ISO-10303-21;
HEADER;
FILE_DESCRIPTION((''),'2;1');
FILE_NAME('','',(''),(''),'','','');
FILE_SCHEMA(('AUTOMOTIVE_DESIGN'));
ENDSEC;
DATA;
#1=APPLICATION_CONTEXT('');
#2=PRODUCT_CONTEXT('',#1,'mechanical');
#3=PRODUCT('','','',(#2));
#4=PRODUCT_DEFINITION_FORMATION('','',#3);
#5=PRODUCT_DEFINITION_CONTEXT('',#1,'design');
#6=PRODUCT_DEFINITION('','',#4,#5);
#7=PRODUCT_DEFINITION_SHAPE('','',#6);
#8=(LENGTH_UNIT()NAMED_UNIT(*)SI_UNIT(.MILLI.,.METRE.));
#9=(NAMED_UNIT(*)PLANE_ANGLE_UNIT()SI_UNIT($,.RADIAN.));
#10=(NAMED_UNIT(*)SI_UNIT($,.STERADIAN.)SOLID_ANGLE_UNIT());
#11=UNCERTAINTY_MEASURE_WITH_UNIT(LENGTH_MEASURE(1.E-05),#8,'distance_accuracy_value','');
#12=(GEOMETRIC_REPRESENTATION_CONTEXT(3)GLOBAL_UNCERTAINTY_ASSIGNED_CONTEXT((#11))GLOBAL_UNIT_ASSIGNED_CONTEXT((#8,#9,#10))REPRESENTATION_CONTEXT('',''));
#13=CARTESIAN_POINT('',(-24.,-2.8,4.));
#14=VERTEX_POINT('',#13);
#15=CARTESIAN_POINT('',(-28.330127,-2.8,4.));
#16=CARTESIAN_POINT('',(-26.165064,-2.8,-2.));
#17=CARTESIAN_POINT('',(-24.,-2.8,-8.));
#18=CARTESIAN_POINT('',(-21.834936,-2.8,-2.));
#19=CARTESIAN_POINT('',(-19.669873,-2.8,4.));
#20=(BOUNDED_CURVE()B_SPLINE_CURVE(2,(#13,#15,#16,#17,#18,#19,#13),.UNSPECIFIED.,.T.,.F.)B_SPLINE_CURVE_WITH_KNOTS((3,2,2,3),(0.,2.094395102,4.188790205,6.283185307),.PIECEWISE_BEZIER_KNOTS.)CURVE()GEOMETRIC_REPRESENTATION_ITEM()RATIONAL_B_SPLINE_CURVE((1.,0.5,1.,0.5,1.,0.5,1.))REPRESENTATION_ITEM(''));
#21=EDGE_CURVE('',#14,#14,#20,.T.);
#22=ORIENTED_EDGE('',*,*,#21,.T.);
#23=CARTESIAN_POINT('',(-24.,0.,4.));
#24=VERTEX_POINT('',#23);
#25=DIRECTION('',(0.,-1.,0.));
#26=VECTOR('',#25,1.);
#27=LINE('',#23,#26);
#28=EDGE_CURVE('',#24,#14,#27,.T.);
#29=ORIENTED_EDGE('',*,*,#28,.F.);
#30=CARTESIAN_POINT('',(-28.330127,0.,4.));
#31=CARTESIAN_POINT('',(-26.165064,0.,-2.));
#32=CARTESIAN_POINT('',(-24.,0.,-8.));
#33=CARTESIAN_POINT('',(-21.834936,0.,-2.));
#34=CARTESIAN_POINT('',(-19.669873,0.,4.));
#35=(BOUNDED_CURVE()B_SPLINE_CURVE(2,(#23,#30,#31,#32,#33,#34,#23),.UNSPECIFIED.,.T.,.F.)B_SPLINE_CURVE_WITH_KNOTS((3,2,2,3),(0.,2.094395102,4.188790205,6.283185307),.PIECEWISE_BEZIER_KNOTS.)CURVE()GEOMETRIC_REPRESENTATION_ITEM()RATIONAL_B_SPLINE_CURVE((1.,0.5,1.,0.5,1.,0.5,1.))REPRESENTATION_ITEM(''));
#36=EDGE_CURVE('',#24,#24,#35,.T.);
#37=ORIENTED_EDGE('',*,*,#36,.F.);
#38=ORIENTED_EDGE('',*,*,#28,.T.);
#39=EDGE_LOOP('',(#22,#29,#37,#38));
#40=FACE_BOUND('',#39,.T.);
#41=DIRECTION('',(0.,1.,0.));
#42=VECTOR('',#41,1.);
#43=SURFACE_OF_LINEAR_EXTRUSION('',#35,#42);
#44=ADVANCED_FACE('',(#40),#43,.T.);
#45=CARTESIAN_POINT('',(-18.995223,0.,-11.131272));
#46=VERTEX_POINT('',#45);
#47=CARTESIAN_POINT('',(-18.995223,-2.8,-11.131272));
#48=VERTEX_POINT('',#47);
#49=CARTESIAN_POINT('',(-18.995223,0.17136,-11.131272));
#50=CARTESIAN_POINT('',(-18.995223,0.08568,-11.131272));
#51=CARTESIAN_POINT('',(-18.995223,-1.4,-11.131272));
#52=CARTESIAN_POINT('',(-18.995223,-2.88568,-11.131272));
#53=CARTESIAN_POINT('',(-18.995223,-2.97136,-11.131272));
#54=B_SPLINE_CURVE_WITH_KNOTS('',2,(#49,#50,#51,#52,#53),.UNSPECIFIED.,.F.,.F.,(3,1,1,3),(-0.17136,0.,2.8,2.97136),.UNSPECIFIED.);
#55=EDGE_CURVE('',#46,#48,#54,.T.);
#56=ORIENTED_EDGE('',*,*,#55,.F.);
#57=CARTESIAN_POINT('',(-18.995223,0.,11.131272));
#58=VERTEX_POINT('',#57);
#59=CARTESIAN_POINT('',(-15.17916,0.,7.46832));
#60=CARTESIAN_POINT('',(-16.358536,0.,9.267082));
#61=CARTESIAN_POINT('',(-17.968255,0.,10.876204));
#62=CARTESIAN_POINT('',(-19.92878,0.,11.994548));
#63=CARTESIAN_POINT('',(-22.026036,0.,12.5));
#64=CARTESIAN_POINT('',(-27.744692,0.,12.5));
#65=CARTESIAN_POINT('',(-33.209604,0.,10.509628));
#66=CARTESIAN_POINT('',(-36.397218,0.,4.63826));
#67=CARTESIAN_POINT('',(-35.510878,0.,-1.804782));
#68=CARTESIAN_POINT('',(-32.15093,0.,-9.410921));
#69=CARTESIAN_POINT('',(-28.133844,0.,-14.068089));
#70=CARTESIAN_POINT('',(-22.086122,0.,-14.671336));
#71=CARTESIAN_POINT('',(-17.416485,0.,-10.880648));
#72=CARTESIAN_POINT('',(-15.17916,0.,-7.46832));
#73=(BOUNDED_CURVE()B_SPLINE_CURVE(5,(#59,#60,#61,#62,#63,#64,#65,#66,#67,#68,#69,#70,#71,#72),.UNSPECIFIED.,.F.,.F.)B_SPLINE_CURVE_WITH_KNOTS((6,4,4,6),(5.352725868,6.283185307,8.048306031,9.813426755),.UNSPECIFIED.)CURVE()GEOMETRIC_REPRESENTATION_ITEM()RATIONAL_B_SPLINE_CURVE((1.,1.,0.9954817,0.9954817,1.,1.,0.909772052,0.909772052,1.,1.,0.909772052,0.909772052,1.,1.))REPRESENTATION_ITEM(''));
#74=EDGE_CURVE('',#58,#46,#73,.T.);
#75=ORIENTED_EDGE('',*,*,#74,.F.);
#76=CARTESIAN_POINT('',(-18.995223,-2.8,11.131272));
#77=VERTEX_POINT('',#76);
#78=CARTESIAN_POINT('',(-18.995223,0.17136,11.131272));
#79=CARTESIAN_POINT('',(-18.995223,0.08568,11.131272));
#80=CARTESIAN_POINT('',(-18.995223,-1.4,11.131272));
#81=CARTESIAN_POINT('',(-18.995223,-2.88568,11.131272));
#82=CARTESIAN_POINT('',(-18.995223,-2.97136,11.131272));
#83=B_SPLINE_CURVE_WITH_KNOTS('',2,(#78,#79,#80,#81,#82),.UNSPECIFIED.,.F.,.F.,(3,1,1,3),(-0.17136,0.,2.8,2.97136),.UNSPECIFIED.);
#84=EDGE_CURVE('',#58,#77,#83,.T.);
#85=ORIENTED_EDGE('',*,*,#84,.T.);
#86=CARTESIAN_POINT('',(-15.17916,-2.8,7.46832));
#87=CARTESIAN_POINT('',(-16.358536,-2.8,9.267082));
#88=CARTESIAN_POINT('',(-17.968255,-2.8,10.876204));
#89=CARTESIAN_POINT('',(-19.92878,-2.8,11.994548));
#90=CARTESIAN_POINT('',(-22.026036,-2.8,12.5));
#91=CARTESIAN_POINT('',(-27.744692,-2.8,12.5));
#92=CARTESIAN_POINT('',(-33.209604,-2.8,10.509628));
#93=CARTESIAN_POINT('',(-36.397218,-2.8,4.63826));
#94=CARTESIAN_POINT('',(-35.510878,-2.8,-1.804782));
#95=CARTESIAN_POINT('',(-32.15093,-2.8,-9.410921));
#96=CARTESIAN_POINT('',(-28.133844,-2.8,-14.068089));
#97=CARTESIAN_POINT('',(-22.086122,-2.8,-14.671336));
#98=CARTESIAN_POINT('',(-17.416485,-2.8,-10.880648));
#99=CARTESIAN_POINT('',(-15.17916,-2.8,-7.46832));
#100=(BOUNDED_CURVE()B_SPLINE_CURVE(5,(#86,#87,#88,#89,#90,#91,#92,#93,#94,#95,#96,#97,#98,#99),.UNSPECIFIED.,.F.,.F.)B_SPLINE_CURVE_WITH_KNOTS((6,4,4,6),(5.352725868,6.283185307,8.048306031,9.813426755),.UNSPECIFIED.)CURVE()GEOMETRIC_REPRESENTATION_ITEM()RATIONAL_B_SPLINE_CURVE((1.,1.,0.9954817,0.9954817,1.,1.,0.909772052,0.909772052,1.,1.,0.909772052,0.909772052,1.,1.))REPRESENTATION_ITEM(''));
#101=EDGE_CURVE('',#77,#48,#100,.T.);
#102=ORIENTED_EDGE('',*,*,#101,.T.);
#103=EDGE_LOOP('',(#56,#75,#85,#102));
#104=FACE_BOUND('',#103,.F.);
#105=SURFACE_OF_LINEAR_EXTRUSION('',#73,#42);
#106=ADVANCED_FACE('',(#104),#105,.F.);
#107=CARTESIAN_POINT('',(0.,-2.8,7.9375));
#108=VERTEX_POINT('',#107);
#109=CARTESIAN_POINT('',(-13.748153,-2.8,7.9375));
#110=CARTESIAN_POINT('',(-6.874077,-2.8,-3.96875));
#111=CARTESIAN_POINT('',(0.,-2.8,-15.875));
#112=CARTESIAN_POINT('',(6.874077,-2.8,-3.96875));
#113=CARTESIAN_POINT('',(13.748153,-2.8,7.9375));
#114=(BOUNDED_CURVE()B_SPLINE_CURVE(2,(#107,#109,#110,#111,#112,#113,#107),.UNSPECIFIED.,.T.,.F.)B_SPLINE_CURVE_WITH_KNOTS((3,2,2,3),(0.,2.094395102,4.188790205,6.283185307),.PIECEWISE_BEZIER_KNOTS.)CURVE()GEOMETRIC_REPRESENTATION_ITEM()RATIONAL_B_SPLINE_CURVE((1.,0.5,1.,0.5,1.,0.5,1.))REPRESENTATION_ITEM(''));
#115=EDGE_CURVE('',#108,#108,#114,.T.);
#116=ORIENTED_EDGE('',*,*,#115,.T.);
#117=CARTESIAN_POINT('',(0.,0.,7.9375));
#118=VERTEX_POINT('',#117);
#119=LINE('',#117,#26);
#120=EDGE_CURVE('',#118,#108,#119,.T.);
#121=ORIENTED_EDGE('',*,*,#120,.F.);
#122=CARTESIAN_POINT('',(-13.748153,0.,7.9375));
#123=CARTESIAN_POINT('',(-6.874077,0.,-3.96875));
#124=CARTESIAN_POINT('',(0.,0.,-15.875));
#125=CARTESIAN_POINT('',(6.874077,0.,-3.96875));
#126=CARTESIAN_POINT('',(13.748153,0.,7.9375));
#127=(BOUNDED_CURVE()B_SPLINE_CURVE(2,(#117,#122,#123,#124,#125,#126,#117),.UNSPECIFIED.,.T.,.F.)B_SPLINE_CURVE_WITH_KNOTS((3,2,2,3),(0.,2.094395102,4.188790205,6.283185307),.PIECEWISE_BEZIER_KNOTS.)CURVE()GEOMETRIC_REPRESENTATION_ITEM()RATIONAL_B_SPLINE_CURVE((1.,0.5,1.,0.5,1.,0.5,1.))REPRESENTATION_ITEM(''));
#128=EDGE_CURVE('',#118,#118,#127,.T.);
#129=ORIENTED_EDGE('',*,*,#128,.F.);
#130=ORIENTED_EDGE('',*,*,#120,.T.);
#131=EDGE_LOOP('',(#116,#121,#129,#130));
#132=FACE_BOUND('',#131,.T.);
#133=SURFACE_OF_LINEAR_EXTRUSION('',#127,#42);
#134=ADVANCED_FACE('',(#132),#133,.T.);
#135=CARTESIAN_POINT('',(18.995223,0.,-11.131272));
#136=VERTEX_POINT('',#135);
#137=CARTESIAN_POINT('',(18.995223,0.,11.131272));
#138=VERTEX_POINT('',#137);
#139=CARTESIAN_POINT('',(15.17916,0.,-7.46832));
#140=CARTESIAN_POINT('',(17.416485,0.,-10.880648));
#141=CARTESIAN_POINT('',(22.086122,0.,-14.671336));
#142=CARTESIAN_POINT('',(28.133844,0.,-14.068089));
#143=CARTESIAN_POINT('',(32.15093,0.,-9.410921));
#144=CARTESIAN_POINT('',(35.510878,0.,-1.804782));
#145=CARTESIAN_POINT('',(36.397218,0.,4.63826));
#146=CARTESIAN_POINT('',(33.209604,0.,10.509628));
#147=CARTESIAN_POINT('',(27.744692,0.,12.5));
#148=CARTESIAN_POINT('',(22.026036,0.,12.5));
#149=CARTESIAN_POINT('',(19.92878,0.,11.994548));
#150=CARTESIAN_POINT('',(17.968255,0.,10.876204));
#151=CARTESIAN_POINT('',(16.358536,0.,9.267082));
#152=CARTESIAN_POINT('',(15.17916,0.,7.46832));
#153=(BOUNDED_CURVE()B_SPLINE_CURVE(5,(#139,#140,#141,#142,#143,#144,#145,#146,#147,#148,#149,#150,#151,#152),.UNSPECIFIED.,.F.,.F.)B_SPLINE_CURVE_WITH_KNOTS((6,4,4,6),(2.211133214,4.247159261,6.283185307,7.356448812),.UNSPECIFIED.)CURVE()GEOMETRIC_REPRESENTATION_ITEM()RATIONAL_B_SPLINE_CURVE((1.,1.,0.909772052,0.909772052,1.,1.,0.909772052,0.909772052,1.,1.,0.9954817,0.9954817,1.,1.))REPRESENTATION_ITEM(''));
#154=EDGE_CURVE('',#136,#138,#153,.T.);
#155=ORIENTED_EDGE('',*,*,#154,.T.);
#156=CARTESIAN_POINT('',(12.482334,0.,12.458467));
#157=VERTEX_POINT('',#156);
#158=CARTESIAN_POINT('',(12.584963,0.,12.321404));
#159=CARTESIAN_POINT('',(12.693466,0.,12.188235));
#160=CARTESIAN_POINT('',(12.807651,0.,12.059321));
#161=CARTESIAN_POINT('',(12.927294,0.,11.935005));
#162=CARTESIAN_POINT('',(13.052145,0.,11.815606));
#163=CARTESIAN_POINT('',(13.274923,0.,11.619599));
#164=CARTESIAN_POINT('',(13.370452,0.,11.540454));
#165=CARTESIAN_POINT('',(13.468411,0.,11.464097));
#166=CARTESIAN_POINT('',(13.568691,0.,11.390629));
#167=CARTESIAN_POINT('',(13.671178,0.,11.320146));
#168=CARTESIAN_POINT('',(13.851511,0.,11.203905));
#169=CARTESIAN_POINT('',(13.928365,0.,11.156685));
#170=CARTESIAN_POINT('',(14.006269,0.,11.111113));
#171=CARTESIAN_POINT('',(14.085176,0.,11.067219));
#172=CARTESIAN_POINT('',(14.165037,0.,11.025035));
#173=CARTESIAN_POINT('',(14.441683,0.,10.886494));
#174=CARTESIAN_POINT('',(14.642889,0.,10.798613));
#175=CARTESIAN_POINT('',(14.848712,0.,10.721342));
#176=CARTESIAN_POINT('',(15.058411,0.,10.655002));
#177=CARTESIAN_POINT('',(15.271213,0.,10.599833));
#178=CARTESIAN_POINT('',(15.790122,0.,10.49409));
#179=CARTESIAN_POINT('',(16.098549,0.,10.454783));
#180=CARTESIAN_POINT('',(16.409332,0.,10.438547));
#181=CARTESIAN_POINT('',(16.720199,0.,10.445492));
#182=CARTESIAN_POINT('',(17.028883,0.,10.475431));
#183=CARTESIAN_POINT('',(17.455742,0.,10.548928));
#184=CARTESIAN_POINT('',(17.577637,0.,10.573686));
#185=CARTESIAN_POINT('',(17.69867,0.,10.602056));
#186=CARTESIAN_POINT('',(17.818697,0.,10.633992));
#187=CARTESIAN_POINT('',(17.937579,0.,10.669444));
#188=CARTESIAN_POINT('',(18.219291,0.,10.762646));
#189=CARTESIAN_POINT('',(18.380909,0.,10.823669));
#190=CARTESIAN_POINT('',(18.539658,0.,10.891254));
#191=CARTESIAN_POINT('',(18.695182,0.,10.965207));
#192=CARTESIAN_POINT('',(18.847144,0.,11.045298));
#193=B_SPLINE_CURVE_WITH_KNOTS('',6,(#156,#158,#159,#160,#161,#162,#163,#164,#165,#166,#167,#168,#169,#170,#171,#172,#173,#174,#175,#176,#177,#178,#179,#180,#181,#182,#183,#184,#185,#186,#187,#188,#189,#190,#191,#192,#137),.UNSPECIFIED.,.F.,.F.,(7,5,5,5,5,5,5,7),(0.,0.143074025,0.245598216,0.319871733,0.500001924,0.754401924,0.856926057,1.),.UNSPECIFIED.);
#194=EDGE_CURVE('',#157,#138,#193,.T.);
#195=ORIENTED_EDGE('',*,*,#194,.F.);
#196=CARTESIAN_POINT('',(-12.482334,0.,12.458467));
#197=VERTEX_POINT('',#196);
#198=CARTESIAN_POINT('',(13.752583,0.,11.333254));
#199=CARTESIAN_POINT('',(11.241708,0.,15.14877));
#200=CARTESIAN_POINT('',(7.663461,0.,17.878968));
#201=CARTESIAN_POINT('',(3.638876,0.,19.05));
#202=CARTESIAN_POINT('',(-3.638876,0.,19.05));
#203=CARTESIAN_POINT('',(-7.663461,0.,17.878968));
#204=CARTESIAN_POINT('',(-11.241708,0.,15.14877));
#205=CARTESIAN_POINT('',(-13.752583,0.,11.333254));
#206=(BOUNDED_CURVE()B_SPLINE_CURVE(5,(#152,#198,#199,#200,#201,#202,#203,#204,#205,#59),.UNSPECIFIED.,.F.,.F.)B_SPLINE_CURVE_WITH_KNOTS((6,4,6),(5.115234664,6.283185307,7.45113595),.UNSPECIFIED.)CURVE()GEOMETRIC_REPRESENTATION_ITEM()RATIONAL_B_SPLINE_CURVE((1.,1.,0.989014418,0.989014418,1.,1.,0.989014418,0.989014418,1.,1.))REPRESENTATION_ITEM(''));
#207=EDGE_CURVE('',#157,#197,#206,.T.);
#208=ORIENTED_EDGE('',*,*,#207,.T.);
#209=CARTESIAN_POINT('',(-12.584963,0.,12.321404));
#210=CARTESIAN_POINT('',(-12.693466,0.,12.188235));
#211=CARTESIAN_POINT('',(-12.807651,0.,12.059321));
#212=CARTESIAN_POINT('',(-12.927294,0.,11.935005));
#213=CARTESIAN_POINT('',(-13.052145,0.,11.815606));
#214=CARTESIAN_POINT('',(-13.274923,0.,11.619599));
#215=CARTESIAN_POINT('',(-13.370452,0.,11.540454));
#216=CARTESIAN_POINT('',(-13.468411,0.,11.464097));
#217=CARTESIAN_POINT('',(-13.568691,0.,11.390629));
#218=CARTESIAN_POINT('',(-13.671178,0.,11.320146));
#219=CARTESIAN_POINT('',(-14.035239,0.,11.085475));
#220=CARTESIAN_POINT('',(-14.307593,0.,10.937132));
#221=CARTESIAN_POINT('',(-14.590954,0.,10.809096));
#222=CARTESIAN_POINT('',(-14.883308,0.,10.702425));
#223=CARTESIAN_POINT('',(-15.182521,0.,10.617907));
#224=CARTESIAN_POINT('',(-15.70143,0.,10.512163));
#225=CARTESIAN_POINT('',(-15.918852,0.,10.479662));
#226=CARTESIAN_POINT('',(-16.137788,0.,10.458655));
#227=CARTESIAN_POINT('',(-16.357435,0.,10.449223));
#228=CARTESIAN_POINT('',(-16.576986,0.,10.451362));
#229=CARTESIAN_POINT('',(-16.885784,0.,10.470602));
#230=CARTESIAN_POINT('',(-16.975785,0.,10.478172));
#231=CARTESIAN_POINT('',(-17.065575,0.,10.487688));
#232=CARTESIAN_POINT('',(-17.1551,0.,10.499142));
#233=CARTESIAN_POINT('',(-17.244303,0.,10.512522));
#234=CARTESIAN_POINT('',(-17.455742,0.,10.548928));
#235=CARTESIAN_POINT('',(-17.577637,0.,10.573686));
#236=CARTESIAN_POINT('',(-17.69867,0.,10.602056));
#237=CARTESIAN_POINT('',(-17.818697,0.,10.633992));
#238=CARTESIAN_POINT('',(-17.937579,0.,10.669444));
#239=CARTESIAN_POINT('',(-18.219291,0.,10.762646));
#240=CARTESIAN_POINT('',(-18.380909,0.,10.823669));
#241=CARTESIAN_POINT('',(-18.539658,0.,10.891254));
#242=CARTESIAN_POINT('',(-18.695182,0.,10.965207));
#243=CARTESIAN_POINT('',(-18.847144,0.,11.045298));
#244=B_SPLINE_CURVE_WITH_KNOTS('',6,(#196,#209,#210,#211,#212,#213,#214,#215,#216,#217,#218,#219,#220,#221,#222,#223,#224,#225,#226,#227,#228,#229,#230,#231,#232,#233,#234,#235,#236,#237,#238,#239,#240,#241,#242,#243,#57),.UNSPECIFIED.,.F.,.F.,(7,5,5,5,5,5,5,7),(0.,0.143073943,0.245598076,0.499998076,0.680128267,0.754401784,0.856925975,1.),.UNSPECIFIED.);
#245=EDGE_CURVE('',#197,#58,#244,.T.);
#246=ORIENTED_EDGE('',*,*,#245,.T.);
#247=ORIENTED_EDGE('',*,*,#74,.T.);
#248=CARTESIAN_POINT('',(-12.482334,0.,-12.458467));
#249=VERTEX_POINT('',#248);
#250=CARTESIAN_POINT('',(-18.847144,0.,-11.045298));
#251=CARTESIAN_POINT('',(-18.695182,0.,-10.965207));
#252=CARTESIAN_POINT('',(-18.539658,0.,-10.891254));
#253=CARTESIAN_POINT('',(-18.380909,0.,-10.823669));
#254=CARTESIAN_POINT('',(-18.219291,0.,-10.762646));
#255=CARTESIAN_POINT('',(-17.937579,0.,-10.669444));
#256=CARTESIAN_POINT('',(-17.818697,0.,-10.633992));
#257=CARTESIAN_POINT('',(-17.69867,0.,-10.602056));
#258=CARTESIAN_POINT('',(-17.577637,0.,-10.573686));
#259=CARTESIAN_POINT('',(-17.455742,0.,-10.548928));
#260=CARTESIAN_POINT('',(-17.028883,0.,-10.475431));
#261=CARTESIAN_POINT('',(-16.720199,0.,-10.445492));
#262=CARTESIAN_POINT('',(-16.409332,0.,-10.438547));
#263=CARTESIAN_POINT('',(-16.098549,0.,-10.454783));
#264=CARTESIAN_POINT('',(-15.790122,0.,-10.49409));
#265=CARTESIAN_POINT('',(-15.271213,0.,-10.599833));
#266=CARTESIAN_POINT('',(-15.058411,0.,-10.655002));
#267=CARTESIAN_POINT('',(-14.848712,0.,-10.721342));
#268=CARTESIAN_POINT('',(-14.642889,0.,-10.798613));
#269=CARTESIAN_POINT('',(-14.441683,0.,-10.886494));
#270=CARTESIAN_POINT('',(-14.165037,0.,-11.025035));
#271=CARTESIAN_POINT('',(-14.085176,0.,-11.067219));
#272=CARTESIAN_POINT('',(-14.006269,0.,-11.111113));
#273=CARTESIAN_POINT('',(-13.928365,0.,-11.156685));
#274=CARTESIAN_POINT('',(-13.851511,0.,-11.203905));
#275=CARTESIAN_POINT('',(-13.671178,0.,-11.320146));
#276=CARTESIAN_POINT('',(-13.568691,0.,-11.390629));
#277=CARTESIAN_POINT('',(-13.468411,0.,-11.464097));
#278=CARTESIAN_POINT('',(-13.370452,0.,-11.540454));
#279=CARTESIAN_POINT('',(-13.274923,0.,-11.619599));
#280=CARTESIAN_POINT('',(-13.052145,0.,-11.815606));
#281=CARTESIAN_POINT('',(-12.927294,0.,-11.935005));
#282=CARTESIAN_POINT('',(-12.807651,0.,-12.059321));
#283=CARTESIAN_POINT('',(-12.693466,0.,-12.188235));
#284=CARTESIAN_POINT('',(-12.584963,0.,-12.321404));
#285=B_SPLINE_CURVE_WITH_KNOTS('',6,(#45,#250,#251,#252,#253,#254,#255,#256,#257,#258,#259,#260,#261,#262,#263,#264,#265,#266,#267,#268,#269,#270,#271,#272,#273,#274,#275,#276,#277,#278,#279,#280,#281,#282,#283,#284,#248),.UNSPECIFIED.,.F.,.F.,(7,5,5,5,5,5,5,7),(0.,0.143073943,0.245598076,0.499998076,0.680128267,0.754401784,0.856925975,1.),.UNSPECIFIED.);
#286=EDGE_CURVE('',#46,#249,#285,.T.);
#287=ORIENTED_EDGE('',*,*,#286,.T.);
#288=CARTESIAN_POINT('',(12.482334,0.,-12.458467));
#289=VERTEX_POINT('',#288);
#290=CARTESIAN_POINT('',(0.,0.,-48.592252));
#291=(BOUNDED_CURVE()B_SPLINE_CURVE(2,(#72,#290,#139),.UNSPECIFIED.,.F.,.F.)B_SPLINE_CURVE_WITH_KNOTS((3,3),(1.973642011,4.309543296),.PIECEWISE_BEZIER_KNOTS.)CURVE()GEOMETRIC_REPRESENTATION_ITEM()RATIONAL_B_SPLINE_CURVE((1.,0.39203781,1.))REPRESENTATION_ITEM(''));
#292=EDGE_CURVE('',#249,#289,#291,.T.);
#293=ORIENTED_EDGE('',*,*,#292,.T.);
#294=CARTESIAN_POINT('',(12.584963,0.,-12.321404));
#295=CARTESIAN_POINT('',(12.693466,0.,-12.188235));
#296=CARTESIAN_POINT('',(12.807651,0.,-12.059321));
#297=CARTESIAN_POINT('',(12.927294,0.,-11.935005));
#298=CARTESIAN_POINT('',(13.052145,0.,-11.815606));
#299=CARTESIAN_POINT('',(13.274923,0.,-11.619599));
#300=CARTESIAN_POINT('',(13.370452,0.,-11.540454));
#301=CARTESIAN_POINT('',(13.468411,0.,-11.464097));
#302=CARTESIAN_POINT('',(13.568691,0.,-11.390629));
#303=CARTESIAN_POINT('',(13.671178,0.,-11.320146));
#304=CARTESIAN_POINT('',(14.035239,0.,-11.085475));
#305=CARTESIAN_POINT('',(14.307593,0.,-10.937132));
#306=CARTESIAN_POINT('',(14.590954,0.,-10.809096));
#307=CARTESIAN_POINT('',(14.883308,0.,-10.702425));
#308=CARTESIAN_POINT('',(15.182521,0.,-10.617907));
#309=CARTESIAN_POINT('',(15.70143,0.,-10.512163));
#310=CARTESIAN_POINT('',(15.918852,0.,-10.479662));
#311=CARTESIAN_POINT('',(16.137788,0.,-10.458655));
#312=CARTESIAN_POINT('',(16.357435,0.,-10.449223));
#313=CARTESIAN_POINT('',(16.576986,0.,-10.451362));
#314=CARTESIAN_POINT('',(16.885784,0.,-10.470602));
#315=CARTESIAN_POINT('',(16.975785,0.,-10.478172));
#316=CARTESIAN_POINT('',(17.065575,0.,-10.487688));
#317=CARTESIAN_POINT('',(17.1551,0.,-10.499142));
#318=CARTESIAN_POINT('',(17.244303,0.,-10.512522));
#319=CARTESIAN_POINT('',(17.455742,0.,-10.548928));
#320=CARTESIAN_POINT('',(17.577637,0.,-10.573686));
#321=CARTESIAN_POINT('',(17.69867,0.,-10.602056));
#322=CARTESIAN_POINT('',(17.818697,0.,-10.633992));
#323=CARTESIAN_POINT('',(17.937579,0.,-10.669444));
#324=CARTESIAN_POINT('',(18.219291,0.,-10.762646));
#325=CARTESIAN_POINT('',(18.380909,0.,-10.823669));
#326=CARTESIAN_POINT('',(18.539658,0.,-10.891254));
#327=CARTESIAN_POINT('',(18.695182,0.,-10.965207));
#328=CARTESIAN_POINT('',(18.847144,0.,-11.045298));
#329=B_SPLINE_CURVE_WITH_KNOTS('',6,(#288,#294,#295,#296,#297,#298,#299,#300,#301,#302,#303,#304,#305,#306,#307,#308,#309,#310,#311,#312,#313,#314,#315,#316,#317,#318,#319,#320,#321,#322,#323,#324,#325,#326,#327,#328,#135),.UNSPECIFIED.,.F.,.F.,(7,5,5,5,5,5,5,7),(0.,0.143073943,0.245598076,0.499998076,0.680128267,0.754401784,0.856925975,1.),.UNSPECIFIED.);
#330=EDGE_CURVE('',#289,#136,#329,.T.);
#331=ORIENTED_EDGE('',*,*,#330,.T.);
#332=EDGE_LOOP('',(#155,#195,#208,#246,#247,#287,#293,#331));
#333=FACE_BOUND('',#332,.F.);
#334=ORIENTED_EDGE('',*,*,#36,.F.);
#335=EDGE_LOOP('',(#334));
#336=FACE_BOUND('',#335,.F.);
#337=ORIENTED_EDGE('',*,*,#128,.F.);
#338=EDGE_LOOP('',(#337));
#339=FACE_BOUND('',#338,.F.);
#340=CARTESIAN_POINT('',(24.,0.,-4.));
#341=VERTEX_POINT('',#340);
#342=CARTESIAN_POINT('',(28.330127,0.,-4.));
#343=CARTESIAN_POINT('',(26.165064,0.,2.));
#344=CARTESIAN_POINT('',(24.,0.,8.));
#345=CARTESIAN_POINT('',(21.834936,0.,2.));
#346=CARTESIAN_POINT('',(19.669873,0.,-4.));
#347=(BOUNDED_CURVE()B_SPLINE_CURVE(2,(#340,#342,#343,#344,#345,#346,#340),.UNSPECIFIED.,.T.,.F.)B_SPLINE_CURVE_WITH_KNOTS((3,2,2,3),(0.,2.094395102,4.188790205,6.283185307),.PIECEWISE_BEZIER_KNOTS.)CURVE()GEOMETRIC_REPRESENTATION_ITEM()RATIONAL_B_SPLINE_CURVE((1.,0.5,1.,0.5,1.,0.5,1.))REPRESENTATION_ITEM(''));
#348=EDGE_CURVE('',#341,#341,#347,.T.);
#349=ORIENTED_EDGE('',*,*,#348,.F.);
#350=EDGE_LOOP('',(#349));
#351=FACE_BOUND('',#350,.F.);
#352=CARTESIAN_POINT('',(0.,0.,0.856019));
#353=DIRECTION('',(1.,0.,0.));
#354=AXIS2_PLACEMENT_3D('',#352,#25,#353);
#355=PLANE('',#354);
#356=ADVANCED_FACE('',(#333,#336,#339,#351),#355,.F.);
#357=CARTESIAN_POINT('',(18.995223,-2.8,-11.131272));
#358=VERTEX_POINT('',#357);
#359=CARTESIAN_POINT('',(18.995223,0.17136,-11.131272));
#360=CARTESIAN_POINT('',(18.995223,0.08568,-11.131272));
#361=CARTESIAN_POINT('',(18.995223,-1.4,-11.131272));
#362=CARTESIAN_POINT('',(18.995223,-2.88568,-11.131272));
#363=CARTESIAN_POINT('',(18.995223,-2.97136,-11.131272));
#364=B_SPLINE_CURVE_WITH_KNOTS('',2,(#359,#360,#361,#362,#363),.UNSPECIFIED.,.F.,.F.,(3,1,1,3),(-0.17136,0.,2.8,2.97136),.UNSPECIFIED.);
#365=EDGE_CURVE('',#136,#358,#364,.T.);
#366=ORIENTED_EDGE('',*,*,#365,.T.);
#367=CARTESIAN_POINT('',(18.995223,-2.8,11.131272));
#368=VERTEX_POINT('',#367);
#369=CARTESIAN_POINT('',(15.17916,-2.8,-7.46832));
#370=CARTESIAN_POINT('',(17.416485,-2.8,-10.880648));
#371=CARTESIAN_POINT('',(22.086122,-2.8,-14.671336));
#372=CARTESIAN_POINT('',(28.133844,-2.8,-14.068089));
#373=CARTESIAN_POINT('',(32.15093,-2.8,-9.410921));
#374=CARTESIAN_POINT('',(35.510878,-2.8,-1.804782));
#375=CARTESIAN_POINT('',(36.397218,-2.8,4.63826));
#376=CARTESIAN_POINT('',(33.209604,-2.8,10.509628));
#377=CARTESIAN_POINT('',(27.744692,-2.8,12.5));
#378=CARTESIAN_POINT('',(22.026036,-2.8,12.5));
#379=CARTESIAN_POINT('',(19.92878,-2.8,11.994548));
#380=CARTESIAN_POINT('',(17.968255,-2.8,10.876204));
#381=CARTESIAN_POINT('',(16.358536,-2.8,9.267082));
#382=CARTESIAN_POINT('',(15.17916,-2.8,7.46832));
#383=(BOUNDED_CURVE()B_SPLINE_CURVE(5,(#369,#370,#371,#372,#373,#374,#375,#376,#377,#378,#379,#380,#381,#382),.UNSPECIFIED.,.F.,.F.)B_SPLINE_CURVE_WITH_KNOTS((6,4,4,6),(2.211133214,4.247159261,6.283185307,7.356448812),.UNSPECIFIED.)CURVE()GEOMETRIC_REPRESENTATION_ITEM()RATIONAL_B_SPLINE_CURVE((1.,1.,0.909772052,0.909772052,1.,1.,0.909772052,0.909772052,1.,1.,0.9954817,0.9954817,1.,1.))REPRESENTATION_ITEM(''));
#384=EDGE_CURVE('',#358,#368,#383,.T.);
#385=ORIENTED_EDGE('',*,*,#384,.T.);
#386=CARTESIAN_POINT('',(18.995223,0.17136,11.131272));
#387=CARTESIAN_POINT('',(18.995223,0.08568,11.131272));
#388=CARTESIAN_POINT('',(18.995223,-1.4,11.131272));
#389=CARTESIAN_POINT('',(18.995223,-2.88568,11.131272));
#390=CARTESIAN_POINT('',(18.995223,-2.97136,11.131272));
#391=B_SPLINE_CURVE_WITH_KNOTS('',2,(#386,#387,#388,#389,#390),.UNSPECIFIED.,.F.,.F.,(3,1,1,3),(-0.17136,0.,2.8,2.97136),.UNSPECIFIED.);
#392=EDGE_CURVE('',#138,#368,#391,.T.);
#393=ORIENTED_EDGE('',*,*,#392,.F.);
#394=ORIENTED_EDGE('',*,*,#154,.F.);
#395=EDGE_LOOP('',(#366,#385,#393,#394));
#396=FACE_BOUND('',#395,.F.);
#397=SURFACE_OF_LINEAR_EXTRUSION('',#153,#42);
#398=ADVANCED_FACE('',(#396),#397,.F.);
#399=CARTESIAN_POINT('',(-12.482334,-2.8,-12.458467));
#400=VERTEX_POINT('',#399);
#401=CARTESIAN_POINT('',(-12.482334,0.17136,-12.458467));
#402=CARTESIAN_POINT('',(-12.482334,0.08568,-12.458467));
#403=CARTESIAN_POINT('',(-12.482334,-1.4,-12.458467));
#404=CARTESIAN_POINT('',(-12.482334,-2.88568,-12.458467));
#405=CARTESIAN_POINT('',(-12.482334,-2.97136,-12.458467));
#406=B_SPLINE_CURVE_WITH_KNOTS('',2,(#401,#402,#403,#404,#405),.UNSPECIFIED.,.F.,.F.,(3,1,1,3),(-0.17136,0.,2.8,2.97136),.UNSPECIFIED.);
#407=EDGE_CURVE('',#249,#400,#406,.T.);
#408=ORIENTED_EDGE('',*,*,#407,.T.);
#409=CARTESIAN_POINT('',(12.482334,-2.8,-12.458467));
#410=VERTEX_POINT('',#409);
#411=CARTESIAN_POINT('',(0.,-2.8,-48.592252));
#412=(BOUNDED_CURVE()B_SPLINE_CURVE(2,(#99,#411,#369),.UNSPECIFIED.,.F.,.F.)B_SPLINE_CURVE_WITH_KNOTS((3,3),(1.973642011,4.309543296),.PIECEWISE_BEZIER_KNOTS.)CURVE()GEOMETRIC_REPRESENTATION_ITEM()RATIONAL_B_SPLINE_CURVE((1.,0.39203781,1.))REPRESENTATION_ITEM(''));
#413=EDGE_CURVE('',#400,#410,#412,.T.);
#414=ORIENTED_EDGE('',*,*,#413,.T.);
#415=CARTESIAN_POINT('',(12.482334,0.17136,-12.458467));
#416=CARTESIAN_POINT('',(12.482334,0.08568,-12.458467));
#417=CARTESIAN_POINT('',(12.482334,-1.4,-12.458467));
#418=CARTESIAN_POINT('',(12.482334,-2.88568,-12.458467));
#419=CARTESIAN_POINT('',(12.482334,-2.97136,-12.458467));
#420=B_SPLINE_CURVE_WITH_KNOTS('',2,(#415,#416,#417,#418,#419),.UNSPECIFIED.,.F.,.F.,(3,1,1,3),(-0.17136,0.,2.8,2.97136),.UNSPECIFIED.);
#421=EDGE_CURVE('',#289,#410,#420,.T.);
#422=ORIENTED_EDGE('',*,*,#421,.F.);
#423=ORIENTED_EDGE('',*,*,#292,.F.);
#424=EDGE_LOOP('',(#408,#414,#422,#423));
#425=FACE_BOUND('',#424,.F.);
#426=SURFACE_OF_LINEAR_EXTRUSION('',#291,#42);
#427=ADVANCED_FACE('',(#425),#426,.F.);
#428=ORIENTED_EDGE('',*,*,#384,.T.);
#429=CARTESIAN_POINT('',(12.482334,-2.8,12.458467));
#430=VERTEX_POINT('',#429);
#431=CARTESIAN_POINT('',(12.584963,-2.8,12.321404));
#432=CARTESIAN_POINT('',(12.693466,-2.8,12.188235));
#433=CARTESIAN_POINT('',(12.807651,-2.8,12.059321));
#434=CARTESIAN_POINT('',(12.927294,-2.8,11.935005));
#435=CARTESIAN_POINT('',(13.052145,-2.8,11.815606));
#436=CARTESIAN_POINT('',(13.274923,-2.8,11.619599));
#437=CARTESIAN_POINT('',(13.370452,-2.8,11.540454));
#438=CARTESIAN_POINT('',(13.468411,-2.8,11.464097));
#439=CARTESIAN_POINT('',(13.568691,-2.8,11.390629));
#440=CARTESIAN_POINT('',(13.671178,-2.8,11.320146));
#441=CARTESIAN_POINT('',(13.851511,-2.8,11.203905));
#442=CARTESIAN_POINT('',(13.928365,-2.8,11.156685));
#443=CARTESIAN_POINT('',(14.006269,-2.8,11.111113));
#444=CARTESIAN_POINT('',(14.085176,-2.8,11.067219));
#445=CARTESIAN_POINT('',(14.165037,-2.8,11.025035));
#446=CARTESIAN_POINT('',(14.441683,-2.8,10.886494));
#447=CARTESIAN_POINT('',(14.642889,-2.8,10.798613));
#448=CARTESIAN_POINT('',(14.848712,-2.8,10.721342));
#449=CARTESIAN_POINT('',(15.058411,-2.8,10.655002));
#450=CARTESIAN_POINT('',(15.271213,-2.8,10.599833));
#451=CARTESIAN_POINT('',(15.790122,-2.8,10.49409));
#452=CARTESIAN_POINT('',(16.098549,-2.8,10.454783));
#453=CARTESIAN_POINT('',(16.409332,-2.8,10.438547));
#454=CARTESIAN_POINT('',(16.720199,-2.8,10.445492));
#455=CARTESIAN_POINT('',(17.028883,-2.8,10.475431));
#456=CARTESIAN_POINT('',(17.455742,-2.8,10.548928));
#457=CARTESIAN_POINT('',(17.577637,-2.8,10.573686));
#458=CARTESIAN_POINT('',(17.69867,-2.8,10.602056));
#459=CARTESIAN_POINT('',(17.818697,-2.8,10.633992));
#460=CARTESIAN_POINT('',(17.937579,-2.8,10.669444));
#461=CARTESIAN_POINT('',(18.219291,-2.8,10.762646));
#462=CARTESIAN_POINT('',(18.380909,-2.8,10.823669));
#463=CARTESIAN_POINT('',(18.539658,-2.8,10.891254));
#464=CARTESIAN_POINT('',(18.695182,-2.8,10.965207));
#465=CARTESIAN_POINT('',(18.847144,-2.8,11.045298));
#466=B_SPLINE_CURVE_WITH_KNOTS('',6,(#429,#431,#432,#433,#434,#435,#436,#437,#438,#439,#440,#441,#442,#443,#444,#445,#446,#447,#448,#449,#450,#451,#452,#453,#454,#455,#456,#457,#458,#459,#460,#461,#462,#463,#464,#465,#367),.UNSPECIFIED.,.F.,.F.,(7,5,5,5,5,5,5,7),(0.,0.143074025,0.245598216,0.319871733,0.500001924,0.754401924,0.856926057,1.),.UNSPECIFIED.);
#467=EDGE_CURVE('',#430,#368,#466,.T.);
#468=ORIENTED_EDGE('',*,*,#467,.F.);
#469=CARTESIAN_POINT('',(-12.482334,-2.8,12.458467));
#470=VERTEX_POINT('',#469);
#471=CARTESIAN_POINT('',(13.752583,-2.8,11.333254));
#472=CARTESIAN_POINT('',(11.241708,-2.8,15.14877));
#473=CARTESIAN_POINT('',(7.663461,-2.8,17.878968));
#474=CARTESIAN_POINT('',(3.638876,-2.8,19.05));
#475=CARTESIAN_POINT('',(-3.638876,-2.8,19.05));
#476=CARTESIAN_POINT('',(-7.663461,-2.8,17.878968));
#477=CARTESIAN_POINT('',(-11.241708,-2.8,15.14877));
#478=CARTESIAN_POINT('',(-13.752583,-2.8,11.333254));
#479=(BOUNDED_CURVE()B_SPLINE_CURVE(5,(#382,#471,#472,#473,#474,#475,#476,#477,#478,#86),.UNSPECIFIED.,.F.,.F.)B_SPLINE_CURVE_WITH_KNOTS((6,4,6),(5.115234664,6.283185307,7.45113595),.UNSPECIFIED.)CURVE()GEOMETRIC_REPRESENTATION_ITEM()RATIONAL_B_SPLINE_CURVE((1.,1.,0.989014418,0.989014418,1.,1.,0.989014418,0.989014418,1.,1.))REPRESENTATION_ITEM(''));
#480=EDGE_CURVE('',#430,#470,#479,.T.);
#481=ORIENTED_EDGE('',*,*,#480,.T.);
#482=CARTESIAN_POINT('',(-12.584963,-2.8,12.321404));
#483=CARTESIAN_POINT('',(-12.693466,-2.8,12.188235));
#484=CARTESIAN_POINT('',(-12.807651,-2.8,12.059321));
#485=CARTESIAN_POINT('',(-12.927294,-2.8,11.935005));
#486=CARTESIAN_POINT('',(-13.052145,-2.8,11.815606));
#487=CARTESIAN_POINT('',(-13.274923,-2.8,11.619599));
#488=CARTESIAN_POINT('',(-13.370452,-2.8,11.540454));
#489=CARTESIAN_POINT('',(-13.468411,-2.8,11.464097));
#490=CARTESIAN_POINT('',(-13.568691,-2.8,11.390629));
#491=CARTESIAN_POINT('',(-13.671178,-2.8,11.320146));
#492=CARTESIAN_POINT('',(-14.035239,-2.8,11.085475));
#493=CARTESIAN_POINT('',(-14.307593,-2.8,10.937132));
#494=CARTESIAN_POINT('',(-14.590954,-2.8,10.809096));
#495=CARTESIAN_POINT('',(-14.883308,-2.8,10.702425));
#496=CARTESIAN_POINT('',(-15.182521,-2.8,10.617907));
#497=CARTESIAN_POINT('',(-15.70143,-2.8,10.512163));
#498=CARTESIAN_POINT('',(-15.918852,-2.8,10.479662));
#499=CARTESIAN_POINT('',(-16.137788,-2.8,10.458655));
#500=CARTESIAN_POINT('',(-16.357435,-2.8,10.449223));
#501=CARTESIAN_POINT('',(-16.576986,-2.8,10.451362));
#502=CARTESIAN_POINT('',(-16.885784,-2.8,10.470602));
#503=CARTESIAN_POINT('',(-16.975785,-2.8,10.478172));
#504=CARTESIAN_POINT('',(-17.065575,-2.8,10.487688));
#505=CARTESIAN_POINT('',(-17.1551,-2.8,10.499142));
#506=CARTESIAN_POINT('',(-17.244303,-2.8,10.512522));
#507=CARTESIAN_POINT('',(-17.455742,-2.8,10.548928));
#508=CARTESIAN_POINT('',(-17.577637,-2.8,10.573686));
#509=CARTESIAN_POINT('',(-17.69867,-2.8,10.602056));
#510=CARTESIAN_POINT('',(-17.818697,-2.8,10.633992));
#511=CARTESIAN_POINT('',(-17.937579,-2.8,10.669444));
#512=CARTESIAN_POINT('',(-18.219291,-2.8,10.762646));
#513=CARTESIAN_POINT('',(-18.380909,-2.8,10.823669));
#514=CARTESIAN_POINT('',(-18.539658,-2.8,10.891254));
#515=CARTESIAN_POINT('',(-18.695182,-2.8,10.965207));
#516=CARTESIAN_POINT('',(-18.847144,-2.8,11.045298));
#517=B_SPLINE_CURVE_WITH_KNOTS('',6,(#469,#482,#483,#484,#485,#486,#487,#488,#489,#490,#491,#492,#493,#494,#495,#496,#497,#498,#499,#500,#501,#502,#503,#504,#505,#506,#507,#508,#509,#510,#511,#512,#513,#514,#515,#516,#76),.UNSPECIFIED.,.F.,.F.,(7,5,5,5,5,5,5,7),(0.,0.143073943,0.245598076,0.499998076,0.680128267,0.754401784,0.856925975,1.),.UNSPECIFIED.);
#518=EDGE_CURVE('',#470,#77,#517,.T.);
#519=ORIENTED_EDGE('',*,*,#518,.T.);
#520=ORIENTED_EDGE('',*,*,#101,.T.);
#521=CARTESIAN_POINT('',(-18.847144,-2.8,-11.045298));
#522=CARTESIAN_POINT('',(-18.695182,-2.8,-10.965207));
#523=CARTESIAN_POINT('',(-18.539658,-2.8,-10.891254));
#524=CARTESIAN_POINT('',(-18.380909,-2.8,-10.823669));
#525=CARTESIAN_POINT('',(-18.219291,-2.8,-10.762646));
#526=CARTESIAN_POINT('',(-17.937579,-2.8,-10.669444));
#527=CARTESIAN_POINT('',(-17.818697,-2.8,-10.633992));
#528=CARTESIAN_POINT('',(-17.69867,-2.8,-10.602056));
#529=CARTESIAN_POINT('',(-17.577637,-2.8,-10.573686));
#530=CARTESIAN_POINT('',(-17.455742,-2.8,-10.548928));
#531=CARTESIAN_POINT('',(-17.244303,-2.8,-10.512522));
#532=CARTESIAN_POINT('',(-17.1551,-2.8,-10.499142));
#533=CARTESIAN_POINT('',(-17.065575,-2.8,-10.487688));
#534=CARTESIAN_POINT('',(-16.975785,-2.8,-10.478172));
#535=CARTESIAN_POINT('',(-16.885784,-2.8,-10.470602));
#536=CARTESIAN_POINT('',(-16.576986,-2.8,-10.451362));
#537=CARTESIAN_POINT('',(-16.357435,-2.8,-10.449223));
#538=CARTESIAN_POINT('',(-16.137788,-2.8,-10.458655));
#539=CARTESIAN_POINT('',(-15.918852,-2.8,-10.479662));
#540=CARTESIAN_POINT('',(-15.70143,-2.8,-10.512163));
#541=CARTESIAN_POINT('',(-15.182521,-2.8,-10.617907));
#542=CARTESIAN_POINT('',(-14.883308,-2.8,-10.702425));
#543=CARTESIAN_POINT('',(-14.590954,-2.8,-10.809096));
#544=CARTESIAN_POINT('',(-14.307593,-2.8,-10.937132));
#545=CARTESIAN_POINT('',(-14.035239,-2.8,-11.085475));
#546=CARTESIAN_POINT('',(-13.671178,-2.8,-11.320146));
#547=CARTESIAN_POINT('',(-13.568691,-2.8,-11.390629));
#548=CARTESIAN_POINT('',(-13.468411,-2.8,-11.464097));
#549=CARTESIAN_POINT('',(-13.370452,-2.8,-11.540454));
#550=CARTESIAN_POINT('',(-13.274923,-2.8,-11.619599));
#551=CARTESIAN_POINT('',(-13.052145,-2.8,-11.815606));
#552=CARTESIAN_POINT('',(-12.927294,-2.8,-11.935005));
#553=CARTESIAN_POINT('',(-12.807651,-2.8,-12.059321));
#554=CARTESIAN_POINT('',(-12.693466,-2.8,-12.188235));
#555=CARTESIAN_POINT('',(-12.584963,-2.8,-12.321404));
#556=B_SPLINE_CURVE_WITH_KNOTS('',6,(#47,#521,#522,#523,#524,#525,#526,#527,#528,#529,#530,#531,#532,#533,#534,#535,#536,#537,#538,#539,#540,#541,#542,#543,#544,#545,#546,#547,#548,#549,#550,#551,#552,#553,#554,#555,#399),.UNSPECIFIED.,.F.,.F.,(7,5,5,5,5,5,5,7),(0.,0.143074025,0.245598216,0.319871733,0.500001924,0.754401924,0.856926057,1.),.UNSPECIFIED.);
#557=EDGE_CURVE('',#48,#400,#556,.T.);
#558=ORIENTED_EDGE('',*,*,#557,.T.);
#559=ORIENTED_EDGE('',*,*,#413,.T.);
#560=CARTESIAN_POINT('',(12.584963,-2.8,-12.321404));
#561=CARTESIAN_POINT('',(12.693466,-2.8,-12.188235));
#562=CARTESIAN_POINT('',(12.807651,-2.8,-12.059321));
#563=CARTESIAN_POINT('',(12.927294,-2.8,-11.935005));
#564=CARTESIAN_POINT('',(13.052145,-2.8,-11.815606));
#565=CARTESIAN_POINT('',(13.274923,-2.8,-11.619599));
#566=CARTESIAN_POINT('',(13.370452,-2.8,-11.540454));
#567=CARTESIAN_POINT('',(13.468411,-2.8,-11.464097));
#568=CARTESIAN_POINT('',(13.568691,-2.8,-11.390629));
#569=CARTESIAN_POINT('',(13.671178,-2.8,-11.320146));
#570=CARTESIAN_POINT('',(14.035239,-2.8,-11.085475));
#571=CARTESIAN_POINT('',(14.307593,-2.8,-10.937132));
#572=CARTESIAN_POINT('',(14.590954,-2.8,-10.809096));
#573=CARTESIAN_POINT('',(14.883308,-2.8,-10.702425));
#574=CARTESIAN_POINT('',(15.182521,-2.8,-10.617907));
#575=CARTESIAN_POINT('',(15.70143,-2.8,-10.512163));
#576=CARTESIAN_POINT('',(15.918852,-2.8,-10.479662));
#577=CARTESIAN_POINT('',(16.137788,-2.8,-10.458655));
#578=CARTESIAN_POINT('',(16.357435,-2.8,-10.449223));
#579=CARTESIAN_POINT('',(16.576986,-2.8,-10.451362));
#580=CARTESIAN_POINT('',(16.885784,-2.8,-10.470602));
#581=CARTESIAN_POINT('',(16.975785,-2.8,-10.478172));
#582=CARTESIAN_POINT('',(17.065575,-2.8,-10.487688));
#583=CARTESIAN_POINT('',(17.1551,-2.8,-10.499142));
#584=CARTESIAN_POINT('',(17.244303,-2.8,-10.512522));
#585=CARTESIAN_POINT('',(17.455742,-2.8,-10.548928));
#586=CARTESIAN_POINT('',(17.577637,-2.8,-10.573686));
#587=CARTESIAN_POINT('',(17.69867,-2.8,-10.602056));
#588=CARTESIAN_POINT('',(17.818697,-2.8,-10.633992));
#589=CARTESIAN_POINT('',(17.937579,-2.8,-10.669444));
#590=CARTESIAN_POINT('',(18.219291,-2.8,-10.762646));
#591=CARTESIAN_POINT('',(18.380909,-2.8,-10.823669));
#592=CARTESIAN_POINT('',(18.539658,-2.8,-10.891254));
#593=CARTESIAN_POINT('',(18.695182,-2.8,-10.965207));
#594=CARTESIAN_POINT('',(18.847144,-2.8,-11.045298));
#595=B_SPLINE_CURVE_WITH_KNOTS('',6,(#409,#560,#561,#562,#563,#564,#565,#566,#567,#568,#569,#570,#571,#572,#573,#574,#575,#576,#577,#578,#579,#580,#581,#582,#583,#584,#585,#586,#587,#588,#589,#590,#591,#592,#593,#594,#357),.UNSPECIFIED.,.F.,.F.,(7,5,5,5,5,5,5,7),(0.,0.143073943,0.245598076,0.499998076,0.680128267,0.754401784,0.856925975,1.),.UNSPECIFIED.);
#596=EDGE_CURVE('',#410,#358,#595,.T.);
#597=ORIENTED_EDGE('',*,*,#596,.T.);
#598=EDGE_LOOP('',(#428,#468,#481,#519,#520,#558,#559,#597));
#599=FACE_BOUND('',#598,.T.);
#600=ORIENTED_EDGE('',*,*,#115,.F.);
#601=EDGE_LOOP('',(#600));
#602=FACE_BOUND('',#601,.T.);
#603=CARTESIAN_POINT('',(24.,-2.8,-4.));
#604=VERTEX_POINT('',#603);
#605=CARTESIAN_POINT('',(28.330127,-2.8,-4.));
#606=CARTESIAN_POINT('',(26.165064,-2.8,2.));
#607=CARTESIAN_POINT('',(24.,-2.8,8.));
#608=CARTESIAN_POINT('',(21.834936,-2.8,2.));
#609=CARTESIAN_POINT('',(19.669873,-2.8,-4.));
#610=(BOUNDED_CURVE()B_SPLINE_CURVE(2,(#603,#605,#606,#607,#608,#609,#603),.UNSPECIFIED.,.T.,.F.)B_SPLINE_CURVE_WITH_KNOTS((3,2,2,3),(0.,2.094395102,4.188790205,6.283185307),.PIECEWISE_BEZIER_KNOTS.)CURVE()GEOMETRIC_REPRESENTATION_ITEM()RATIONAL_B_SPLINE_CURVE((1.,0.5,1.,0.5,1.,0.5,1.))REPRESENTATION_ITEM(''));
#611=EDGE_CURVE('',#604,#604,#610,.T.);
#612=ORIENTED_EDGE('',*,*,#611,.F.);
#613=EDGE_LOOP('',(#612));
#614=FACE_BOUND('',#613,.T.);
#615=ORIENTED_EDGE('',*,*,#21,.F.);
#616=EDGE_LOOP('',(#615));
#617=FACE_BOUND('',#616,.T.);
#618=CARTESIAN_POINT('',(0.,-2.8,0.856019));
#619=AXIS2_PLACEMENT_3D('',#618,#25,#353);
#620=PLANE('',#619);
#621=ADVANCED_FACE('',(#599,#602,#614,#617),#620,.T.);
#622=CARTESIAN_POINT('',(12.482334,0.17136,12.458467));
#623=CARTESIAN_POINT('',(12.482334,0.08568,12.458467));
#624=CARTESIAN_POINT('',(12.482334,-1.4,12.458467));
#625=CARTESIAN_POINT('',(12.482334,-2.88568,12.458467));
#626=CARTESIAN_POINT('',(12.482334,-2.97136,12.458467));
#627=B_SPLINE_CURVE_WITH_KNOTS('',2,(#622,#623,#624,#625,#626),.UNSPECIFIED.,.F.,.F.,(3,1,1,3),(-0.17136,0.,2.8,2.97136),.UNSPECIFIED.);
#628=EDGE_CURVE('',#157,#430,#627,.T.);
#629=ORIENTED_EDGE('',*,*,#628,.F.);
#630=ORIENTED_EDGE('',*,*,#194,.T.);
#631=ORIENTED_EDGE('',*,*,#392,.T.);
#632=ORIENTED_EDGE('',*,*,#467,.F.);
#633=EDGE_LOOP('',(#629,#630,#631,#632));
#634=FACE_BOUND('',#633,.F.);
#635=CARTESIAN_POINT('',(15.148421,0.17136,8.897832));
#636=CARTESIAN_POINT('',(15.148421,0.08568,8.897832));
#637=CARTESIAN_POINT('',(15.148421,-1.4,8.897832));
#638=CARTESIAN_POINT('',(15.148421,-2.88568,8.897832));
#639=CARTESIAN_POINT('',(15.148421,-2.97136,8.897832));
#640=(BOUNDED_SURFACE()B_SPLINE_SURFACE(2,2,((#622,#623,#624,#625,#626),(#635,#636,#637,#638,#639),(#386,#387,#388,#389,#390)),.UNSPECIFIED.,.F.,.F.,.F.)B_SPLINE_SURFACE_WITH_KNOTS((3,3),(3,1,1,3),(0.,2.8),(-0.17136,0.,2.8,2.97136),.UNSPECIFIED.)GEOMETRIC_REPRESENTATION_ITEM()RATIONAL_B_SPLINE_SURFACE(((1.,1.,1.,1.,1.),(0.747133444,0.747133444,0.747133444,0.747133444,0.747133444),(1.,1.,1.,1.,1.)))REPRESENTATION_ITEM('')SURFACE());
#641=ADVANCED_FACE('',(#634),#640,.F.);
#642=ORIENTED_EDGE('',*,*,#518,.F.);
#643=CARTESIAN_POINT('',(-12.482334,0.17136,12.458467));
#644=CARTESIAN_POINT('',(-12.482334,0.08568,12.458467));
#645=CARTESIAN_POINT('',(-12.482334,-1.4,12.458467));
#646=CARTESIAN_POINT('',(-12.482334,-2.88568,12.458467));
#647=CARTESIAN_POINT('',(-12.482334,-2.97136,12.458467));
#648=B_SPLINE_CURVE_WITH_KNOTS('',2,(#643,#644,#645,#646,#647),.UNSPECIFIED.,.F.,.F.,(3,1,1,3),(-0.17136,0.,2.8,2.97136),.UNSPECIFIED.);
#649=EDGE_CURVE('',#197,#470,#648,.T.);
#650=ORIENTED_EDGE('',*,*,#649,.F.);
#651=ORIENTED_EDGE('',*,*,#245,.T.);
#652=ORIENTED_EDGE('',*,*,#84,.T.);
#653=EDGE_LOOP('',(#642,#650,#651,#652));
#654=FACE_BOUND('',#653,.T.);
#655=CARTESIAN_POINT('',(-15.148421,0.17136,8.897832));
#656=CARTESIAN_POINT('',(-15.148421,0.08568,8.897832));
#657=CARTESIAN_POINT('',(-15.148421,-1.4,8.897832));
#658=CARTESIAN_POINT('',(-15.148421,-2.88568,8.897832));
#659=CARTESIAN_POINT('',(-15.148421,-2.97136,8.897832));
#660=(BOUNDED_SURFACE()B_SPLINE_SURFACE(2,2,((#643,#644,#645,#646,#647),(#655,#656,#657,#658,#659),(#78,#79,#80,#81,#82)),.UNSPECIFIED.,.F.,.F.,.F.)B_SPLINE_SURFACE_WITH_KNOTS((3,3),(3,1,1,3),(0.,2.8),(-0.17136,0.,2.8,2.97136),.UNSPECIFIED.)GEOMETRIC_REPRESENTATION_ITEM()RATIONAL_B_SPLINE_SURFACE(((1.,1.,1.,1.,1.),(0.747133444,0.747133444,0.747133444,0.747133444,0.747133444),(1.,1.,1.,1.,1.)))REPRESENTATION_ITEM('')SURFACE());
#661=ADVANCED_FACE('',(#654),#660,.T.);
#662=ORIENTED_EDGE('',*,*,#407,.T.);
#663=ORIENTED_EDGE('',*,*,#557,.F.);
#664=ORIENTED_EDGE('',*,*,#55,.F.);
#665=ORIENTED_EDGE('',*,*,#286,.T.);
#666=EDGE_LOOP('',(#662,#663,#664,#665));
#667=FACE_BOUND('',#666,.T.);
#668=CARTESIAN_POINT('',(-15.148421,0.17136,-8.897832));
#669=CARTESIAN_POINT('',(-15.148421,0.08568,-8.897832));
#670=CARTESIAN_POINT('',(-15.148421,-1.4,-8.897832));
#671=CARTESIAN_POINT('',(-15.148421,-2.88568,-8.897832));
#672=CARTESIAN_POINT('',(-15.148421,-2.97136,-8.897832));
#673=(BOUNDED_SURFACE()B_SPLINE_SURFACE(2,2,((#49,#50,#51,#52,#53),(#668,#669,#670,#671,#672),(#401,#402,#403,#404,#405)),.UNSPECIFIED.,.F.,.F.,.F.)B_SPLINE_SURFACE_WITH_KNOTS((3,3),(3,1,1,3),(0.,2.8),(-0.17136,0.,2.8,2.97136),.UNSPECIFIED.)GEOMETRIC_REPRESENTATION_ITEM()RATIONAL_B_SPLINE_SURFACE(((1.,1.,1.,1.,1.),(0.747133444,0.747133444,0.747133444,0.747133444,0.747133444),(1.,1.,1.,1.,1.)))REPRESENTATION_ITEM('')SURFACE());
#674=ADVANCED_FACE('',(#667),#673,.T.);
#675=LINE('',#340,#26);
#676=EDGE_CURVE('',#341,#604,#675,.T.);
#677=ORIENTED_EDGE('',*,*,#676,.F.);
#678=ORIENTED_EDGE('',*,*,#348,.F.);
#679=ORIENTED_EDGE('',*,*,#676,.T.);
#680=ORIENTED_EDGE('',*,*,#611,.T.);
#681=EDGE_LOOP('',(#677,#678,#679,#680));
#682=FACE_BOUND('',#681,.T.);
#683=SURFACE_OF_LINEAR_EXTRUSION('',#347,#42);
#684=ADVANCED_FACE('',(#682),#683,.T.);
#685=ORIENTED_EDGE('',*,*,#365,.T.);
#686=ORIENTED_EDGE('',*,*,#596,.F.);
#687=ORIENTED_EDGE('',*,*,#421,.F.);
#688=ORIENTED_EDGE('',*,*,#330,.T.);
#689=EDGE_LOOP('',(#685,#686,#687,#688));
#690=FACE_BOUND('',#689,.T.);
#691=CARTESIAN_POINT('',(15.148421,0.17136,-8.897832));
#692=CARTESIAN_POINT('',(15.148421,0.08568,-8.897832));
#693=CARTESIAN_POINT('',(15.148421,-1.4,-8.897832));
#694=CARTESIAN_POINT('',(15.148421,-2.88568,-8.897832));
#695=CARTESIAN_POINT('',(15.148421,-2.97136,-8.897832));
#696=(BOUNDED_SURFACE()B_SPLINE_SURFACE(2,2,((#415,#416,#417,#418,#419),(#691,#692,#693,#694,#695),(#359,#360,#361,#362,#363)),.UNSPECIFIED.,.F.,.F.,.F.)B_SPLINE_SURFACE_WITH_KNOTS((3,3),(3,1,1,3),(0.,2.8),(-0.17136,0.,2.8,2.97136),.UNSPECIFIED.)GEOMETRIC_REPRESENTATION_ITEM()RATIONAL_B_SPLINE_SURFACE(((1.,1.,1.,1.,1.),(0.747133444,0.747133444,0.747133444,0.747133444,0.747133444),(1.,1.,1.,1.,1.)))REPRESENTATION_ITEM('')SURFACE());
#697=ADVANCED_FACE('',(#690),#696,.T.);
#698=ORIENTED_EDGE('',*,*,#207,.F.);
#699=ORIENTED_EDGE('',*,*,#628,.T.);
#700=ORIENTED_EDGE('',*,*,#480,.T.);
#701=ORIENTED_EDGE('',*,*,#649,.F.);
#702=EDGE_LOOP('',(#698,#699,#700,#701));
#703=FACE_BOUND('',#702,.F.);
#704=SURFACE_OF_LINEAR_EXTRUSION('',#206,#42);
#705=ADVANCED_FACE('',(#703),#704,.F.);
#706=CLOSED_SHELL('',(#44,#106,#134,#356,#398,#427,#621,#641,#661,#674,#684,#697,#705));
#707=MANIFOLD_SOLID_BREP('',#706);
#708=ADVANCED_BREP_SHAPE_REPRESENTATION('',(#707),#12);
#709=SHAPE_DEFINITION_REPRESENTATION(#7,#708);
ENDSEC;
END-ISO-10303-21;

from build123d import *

# Parameters (mm, degrees)
F1_DEPTH = 2.8
F2_R     = 5


with BuildPart() as f1:
    # F0 (on Front) → F1 (new body)
    with BuildSketch(Plane.XZ):
        with BuildLine():
            add(Edge.make_bspline(
                [(15.1791602264, 7.4683202907), (10.9042729382, 19.05), (0, 19.05)],
                knots=[5.1152346644, 5.1152346644, 5.1152346644, 6.2831853072, 6.2831853072, 6.2831853072], degree=2, weights=[1, 0.834277475, 1]))
            add(Edge.make_bspline(
                [(0, 19.05), (-10.9042729382, 19.05), (-15.1791602264, 7.4683202907)],
                knots=[0, 0, 0, 1.1679506428, 1.1679506428, 1.1679506428], degree=2, weights=[1, 0.834277475, 1]))
            add(Edge.make_bspline(
                [(-15.1791602264, -7.4683202907), (-10.2824852162, 0), (-15.1791602264, 7.4683202907)],
                knots=[4.0720520932, 4.0720520932, 4.0720520932, 5.3527258676, 5.3527258676, 5.3527258676], degree=2, weights=[1, 0.8018945249, 1]))
            add(Edge.make_bspline(
                [(-15.1791602264, -7.4683202907), (0, -48.5922517878), (15.1791602264, -7.4683202907)],
                knots=[1.9736420108, 1.9736420108, 1.9736420108, 4.3095432964, 4.3095432964, 4.3095432964], degree=2, weights=[1, 0.3920378105, 1]))
            add(Edge.make_bspline(
                [(15.1791602264, 7.4683202907), (10.2824852162, 0), (15.1791602264, -7.4683202907)],
                knots=[0.9304594396, 0.9304594396, 0.9304594396, 2.211133214, 2.211133214, 2.211133214], degree=2, weights=[1, 0.8018945249, 1]))
        make_face()
        with BuildLine():
            add(Edge.make_bspline(
                [(0, 7.9375), (-13.7481532851, 7.9375), (-6.8740766425, -3.96875), (0, -15.875), (6.8740766425, -3.96875), (13.7481532851, 7.9375), (0, 7.9375)],
                knots=[0, 0, 0, 2.0943951024, 2.0943951024, 4.1887902048, 4.1887902048, 6.2831853072, 6.2831853072, 6.2831853072], degree=2, weights=[1, 0.5, 1, 0.5, 1, 0.5, 1]))
        make_face(mode=Mode.SUBTRACT)
        with BuildLine():
            add(Edge.make_bspline(
                [(-15.1791602264, -7.4683202907), (-10.2824852162, 0), (-15.1791602264, 7.4683202907)],
                knots=[4.0720520932, 4.0720520932, 4.0720520932, 5.3527258676, 5.3527258676, 5.3527258676], degree=2, weights=[1, 0.8018945249, 1]))
            add(Edge.make_bspline(
                [(-15.1791602264, 7.4683202907), (-17.9357748347, 0), (-15.1791602264, -7.4683202907)],
                knots=[1.1679506428, 1.1679506428, 1.1679506428, 1.9736420108, 1.9736420108, 1.9736420108], degree=2, weights=[1, 0.9199491046, 1]))
        make_face()
        with BuildLine():
            add(Edge.make_bspline(
                [(-15.1791602264, 7.4683202907), (-17.9357748347, 0), (-15.1791602264, -7.4683202907)],
                knots=[1.1679506428, 1.1679506428, 1.1679506428, 1.9736420108, 1.9736420108, 1.9736420108], degree=2, weights=[1, 0.9199491046, 1]))
            add(Edge.make_bspline(
                [(-15.1791602264, 7.4683202907), (-18.4782287361, 12.5), (-24, 12.5)],
                knots=[5.3527258676, 5.3527258676, 5.3527258676, 6.2831853072, 6.2831853072, 6.2831853072], degree=2, weights=[1, 0.8937185304, 1]))
            add(Edge.make_bspline(
                [(-24, 12.5), (-41.8298969495, 12.5), (-33.8309038347, -5.6078514765), (-25.83191072, -23.7157029531), (-15.1791602264, -7.4683202907)],
                knots=[0, 0, 0, 2.0360260466, 2.0360260466, 4.0720520932, 4.0720520932, 4.0720520932], degree=2, weights=[1, 0.5250580358, 1, 0.5250580358, 1]))
        make_face()
        with BuildLine():
            add(Edge.make_bspline(
                [(-24, 4), (-28.3301270189, 4), (-26.1650635095, -2), (-24, -8), (-21.8349364905, -2), (-19.6698729811, 4), (-24, 4)],
                knots=[0, 0, 0, 2.0943951024, 2.0943951024, 4.1887902048, 4.1887902048, 6.2831853072, 6.2831853072, 6.2831853072], degree=2, weights=[1, 0.5, 1, 0.5, 1, 0.5, 1]))
        make_face(mode=Mode.SUBTRACT)
        with BuildLine():
            add(Edge.make_bspline(
                [(24, 12.5), (18.4782287361, 12.5), (15.1791602264, 7.4683202907)],
                knots=[0, 0, 0, 0.9304594396, 0.9304594396, 0.9304594396], degree=2, weights=[1, 0.8937185304, 1]))
            add(Edge.make_bspline(
                [(15.1791602264, -7.4683202907), (17.9357748347, 0), (15.1791602264, 7.4683202907)],
                knots=[4.3095432964, 4.3095432964, 4.3095432964, 5.1152346644, 5.1152346644, 5.1152346644], degree=2, weights=[1, 0.9199491046, 1]))
            add(Edge.make_bspline(
                [(15.1791602264, -7.4683202907), (25.83191072, -23.7157029531), (33.8309038347, -5.6078514765), (41.8298969495, 12.5), (24, 12.5)],
                knots=[2.211133214, 2.211133214, 2.211133214, 4.2471592606, 4.2471592606, 6.2831853072, 6.2831853072, 6.2831853072], degree=2, weights=[1, 0.5250580358, 1, 0.5250580358, 1]))
        make_face()
        with BuildLine():
            add(Edge.make_bspline(
                [(24, -4), (28.3301270189, -4), (26.1650635095, 2), (24, 8), (21.8349364905, 2), (19.6698729811, -4), (24, -4)],
                knots=[0, 0, 0, 2.0943951024, 2.0943951024, 4.1887902048, 4.1887902048, 6.2831853072, 6.2831853072, 6.2831853072], degree=2, weights=[1, 0.5, 1, 0.5, 1, 0.5, 1]))
        make_face(mode=Mode.SUBTRACT)
        with BuildLine():
            add(Edge.make_bspline(
                [(15.1791602264, -7.4683202907), (17.9357748347, 0), (15.1791602264, 7.4683202907)],
                knots=[4.3095432964, 4.3095432964, 4.3095432964, 5.1152346644, 5.1152346644, 5.1152346644], degree=2, weights=[1, 0.9199491046, 1]))
            add(Edge.make_bspline(
                [(15.1791602264, 7.4683202907), (10.2824852162, 0), (15.1791602264, -7.4683202907)],
                knots=[0.9304594396, 0.9304594396, 0.9304594396, 2.211133214, 2.211133214, 2.211133214], degree=2, weights=[1, 0.8018945249, 1]))
        make_face()
    extrude(amount=F1_DEPTH)

    # F2
    f2_edges = [f1.edges().sort_by_distance(p)[0] for p in [
        (15.17916, -1.4, -7.46832),
        (-15.17916, -1.4, 7.46832),
        (-15.17916, -1.4, -7.46832),
        (15.17916, -1.4, 7.46832),
    ]]
    fillet(f2_edges, radius=F2_R)


solid = f1.part
